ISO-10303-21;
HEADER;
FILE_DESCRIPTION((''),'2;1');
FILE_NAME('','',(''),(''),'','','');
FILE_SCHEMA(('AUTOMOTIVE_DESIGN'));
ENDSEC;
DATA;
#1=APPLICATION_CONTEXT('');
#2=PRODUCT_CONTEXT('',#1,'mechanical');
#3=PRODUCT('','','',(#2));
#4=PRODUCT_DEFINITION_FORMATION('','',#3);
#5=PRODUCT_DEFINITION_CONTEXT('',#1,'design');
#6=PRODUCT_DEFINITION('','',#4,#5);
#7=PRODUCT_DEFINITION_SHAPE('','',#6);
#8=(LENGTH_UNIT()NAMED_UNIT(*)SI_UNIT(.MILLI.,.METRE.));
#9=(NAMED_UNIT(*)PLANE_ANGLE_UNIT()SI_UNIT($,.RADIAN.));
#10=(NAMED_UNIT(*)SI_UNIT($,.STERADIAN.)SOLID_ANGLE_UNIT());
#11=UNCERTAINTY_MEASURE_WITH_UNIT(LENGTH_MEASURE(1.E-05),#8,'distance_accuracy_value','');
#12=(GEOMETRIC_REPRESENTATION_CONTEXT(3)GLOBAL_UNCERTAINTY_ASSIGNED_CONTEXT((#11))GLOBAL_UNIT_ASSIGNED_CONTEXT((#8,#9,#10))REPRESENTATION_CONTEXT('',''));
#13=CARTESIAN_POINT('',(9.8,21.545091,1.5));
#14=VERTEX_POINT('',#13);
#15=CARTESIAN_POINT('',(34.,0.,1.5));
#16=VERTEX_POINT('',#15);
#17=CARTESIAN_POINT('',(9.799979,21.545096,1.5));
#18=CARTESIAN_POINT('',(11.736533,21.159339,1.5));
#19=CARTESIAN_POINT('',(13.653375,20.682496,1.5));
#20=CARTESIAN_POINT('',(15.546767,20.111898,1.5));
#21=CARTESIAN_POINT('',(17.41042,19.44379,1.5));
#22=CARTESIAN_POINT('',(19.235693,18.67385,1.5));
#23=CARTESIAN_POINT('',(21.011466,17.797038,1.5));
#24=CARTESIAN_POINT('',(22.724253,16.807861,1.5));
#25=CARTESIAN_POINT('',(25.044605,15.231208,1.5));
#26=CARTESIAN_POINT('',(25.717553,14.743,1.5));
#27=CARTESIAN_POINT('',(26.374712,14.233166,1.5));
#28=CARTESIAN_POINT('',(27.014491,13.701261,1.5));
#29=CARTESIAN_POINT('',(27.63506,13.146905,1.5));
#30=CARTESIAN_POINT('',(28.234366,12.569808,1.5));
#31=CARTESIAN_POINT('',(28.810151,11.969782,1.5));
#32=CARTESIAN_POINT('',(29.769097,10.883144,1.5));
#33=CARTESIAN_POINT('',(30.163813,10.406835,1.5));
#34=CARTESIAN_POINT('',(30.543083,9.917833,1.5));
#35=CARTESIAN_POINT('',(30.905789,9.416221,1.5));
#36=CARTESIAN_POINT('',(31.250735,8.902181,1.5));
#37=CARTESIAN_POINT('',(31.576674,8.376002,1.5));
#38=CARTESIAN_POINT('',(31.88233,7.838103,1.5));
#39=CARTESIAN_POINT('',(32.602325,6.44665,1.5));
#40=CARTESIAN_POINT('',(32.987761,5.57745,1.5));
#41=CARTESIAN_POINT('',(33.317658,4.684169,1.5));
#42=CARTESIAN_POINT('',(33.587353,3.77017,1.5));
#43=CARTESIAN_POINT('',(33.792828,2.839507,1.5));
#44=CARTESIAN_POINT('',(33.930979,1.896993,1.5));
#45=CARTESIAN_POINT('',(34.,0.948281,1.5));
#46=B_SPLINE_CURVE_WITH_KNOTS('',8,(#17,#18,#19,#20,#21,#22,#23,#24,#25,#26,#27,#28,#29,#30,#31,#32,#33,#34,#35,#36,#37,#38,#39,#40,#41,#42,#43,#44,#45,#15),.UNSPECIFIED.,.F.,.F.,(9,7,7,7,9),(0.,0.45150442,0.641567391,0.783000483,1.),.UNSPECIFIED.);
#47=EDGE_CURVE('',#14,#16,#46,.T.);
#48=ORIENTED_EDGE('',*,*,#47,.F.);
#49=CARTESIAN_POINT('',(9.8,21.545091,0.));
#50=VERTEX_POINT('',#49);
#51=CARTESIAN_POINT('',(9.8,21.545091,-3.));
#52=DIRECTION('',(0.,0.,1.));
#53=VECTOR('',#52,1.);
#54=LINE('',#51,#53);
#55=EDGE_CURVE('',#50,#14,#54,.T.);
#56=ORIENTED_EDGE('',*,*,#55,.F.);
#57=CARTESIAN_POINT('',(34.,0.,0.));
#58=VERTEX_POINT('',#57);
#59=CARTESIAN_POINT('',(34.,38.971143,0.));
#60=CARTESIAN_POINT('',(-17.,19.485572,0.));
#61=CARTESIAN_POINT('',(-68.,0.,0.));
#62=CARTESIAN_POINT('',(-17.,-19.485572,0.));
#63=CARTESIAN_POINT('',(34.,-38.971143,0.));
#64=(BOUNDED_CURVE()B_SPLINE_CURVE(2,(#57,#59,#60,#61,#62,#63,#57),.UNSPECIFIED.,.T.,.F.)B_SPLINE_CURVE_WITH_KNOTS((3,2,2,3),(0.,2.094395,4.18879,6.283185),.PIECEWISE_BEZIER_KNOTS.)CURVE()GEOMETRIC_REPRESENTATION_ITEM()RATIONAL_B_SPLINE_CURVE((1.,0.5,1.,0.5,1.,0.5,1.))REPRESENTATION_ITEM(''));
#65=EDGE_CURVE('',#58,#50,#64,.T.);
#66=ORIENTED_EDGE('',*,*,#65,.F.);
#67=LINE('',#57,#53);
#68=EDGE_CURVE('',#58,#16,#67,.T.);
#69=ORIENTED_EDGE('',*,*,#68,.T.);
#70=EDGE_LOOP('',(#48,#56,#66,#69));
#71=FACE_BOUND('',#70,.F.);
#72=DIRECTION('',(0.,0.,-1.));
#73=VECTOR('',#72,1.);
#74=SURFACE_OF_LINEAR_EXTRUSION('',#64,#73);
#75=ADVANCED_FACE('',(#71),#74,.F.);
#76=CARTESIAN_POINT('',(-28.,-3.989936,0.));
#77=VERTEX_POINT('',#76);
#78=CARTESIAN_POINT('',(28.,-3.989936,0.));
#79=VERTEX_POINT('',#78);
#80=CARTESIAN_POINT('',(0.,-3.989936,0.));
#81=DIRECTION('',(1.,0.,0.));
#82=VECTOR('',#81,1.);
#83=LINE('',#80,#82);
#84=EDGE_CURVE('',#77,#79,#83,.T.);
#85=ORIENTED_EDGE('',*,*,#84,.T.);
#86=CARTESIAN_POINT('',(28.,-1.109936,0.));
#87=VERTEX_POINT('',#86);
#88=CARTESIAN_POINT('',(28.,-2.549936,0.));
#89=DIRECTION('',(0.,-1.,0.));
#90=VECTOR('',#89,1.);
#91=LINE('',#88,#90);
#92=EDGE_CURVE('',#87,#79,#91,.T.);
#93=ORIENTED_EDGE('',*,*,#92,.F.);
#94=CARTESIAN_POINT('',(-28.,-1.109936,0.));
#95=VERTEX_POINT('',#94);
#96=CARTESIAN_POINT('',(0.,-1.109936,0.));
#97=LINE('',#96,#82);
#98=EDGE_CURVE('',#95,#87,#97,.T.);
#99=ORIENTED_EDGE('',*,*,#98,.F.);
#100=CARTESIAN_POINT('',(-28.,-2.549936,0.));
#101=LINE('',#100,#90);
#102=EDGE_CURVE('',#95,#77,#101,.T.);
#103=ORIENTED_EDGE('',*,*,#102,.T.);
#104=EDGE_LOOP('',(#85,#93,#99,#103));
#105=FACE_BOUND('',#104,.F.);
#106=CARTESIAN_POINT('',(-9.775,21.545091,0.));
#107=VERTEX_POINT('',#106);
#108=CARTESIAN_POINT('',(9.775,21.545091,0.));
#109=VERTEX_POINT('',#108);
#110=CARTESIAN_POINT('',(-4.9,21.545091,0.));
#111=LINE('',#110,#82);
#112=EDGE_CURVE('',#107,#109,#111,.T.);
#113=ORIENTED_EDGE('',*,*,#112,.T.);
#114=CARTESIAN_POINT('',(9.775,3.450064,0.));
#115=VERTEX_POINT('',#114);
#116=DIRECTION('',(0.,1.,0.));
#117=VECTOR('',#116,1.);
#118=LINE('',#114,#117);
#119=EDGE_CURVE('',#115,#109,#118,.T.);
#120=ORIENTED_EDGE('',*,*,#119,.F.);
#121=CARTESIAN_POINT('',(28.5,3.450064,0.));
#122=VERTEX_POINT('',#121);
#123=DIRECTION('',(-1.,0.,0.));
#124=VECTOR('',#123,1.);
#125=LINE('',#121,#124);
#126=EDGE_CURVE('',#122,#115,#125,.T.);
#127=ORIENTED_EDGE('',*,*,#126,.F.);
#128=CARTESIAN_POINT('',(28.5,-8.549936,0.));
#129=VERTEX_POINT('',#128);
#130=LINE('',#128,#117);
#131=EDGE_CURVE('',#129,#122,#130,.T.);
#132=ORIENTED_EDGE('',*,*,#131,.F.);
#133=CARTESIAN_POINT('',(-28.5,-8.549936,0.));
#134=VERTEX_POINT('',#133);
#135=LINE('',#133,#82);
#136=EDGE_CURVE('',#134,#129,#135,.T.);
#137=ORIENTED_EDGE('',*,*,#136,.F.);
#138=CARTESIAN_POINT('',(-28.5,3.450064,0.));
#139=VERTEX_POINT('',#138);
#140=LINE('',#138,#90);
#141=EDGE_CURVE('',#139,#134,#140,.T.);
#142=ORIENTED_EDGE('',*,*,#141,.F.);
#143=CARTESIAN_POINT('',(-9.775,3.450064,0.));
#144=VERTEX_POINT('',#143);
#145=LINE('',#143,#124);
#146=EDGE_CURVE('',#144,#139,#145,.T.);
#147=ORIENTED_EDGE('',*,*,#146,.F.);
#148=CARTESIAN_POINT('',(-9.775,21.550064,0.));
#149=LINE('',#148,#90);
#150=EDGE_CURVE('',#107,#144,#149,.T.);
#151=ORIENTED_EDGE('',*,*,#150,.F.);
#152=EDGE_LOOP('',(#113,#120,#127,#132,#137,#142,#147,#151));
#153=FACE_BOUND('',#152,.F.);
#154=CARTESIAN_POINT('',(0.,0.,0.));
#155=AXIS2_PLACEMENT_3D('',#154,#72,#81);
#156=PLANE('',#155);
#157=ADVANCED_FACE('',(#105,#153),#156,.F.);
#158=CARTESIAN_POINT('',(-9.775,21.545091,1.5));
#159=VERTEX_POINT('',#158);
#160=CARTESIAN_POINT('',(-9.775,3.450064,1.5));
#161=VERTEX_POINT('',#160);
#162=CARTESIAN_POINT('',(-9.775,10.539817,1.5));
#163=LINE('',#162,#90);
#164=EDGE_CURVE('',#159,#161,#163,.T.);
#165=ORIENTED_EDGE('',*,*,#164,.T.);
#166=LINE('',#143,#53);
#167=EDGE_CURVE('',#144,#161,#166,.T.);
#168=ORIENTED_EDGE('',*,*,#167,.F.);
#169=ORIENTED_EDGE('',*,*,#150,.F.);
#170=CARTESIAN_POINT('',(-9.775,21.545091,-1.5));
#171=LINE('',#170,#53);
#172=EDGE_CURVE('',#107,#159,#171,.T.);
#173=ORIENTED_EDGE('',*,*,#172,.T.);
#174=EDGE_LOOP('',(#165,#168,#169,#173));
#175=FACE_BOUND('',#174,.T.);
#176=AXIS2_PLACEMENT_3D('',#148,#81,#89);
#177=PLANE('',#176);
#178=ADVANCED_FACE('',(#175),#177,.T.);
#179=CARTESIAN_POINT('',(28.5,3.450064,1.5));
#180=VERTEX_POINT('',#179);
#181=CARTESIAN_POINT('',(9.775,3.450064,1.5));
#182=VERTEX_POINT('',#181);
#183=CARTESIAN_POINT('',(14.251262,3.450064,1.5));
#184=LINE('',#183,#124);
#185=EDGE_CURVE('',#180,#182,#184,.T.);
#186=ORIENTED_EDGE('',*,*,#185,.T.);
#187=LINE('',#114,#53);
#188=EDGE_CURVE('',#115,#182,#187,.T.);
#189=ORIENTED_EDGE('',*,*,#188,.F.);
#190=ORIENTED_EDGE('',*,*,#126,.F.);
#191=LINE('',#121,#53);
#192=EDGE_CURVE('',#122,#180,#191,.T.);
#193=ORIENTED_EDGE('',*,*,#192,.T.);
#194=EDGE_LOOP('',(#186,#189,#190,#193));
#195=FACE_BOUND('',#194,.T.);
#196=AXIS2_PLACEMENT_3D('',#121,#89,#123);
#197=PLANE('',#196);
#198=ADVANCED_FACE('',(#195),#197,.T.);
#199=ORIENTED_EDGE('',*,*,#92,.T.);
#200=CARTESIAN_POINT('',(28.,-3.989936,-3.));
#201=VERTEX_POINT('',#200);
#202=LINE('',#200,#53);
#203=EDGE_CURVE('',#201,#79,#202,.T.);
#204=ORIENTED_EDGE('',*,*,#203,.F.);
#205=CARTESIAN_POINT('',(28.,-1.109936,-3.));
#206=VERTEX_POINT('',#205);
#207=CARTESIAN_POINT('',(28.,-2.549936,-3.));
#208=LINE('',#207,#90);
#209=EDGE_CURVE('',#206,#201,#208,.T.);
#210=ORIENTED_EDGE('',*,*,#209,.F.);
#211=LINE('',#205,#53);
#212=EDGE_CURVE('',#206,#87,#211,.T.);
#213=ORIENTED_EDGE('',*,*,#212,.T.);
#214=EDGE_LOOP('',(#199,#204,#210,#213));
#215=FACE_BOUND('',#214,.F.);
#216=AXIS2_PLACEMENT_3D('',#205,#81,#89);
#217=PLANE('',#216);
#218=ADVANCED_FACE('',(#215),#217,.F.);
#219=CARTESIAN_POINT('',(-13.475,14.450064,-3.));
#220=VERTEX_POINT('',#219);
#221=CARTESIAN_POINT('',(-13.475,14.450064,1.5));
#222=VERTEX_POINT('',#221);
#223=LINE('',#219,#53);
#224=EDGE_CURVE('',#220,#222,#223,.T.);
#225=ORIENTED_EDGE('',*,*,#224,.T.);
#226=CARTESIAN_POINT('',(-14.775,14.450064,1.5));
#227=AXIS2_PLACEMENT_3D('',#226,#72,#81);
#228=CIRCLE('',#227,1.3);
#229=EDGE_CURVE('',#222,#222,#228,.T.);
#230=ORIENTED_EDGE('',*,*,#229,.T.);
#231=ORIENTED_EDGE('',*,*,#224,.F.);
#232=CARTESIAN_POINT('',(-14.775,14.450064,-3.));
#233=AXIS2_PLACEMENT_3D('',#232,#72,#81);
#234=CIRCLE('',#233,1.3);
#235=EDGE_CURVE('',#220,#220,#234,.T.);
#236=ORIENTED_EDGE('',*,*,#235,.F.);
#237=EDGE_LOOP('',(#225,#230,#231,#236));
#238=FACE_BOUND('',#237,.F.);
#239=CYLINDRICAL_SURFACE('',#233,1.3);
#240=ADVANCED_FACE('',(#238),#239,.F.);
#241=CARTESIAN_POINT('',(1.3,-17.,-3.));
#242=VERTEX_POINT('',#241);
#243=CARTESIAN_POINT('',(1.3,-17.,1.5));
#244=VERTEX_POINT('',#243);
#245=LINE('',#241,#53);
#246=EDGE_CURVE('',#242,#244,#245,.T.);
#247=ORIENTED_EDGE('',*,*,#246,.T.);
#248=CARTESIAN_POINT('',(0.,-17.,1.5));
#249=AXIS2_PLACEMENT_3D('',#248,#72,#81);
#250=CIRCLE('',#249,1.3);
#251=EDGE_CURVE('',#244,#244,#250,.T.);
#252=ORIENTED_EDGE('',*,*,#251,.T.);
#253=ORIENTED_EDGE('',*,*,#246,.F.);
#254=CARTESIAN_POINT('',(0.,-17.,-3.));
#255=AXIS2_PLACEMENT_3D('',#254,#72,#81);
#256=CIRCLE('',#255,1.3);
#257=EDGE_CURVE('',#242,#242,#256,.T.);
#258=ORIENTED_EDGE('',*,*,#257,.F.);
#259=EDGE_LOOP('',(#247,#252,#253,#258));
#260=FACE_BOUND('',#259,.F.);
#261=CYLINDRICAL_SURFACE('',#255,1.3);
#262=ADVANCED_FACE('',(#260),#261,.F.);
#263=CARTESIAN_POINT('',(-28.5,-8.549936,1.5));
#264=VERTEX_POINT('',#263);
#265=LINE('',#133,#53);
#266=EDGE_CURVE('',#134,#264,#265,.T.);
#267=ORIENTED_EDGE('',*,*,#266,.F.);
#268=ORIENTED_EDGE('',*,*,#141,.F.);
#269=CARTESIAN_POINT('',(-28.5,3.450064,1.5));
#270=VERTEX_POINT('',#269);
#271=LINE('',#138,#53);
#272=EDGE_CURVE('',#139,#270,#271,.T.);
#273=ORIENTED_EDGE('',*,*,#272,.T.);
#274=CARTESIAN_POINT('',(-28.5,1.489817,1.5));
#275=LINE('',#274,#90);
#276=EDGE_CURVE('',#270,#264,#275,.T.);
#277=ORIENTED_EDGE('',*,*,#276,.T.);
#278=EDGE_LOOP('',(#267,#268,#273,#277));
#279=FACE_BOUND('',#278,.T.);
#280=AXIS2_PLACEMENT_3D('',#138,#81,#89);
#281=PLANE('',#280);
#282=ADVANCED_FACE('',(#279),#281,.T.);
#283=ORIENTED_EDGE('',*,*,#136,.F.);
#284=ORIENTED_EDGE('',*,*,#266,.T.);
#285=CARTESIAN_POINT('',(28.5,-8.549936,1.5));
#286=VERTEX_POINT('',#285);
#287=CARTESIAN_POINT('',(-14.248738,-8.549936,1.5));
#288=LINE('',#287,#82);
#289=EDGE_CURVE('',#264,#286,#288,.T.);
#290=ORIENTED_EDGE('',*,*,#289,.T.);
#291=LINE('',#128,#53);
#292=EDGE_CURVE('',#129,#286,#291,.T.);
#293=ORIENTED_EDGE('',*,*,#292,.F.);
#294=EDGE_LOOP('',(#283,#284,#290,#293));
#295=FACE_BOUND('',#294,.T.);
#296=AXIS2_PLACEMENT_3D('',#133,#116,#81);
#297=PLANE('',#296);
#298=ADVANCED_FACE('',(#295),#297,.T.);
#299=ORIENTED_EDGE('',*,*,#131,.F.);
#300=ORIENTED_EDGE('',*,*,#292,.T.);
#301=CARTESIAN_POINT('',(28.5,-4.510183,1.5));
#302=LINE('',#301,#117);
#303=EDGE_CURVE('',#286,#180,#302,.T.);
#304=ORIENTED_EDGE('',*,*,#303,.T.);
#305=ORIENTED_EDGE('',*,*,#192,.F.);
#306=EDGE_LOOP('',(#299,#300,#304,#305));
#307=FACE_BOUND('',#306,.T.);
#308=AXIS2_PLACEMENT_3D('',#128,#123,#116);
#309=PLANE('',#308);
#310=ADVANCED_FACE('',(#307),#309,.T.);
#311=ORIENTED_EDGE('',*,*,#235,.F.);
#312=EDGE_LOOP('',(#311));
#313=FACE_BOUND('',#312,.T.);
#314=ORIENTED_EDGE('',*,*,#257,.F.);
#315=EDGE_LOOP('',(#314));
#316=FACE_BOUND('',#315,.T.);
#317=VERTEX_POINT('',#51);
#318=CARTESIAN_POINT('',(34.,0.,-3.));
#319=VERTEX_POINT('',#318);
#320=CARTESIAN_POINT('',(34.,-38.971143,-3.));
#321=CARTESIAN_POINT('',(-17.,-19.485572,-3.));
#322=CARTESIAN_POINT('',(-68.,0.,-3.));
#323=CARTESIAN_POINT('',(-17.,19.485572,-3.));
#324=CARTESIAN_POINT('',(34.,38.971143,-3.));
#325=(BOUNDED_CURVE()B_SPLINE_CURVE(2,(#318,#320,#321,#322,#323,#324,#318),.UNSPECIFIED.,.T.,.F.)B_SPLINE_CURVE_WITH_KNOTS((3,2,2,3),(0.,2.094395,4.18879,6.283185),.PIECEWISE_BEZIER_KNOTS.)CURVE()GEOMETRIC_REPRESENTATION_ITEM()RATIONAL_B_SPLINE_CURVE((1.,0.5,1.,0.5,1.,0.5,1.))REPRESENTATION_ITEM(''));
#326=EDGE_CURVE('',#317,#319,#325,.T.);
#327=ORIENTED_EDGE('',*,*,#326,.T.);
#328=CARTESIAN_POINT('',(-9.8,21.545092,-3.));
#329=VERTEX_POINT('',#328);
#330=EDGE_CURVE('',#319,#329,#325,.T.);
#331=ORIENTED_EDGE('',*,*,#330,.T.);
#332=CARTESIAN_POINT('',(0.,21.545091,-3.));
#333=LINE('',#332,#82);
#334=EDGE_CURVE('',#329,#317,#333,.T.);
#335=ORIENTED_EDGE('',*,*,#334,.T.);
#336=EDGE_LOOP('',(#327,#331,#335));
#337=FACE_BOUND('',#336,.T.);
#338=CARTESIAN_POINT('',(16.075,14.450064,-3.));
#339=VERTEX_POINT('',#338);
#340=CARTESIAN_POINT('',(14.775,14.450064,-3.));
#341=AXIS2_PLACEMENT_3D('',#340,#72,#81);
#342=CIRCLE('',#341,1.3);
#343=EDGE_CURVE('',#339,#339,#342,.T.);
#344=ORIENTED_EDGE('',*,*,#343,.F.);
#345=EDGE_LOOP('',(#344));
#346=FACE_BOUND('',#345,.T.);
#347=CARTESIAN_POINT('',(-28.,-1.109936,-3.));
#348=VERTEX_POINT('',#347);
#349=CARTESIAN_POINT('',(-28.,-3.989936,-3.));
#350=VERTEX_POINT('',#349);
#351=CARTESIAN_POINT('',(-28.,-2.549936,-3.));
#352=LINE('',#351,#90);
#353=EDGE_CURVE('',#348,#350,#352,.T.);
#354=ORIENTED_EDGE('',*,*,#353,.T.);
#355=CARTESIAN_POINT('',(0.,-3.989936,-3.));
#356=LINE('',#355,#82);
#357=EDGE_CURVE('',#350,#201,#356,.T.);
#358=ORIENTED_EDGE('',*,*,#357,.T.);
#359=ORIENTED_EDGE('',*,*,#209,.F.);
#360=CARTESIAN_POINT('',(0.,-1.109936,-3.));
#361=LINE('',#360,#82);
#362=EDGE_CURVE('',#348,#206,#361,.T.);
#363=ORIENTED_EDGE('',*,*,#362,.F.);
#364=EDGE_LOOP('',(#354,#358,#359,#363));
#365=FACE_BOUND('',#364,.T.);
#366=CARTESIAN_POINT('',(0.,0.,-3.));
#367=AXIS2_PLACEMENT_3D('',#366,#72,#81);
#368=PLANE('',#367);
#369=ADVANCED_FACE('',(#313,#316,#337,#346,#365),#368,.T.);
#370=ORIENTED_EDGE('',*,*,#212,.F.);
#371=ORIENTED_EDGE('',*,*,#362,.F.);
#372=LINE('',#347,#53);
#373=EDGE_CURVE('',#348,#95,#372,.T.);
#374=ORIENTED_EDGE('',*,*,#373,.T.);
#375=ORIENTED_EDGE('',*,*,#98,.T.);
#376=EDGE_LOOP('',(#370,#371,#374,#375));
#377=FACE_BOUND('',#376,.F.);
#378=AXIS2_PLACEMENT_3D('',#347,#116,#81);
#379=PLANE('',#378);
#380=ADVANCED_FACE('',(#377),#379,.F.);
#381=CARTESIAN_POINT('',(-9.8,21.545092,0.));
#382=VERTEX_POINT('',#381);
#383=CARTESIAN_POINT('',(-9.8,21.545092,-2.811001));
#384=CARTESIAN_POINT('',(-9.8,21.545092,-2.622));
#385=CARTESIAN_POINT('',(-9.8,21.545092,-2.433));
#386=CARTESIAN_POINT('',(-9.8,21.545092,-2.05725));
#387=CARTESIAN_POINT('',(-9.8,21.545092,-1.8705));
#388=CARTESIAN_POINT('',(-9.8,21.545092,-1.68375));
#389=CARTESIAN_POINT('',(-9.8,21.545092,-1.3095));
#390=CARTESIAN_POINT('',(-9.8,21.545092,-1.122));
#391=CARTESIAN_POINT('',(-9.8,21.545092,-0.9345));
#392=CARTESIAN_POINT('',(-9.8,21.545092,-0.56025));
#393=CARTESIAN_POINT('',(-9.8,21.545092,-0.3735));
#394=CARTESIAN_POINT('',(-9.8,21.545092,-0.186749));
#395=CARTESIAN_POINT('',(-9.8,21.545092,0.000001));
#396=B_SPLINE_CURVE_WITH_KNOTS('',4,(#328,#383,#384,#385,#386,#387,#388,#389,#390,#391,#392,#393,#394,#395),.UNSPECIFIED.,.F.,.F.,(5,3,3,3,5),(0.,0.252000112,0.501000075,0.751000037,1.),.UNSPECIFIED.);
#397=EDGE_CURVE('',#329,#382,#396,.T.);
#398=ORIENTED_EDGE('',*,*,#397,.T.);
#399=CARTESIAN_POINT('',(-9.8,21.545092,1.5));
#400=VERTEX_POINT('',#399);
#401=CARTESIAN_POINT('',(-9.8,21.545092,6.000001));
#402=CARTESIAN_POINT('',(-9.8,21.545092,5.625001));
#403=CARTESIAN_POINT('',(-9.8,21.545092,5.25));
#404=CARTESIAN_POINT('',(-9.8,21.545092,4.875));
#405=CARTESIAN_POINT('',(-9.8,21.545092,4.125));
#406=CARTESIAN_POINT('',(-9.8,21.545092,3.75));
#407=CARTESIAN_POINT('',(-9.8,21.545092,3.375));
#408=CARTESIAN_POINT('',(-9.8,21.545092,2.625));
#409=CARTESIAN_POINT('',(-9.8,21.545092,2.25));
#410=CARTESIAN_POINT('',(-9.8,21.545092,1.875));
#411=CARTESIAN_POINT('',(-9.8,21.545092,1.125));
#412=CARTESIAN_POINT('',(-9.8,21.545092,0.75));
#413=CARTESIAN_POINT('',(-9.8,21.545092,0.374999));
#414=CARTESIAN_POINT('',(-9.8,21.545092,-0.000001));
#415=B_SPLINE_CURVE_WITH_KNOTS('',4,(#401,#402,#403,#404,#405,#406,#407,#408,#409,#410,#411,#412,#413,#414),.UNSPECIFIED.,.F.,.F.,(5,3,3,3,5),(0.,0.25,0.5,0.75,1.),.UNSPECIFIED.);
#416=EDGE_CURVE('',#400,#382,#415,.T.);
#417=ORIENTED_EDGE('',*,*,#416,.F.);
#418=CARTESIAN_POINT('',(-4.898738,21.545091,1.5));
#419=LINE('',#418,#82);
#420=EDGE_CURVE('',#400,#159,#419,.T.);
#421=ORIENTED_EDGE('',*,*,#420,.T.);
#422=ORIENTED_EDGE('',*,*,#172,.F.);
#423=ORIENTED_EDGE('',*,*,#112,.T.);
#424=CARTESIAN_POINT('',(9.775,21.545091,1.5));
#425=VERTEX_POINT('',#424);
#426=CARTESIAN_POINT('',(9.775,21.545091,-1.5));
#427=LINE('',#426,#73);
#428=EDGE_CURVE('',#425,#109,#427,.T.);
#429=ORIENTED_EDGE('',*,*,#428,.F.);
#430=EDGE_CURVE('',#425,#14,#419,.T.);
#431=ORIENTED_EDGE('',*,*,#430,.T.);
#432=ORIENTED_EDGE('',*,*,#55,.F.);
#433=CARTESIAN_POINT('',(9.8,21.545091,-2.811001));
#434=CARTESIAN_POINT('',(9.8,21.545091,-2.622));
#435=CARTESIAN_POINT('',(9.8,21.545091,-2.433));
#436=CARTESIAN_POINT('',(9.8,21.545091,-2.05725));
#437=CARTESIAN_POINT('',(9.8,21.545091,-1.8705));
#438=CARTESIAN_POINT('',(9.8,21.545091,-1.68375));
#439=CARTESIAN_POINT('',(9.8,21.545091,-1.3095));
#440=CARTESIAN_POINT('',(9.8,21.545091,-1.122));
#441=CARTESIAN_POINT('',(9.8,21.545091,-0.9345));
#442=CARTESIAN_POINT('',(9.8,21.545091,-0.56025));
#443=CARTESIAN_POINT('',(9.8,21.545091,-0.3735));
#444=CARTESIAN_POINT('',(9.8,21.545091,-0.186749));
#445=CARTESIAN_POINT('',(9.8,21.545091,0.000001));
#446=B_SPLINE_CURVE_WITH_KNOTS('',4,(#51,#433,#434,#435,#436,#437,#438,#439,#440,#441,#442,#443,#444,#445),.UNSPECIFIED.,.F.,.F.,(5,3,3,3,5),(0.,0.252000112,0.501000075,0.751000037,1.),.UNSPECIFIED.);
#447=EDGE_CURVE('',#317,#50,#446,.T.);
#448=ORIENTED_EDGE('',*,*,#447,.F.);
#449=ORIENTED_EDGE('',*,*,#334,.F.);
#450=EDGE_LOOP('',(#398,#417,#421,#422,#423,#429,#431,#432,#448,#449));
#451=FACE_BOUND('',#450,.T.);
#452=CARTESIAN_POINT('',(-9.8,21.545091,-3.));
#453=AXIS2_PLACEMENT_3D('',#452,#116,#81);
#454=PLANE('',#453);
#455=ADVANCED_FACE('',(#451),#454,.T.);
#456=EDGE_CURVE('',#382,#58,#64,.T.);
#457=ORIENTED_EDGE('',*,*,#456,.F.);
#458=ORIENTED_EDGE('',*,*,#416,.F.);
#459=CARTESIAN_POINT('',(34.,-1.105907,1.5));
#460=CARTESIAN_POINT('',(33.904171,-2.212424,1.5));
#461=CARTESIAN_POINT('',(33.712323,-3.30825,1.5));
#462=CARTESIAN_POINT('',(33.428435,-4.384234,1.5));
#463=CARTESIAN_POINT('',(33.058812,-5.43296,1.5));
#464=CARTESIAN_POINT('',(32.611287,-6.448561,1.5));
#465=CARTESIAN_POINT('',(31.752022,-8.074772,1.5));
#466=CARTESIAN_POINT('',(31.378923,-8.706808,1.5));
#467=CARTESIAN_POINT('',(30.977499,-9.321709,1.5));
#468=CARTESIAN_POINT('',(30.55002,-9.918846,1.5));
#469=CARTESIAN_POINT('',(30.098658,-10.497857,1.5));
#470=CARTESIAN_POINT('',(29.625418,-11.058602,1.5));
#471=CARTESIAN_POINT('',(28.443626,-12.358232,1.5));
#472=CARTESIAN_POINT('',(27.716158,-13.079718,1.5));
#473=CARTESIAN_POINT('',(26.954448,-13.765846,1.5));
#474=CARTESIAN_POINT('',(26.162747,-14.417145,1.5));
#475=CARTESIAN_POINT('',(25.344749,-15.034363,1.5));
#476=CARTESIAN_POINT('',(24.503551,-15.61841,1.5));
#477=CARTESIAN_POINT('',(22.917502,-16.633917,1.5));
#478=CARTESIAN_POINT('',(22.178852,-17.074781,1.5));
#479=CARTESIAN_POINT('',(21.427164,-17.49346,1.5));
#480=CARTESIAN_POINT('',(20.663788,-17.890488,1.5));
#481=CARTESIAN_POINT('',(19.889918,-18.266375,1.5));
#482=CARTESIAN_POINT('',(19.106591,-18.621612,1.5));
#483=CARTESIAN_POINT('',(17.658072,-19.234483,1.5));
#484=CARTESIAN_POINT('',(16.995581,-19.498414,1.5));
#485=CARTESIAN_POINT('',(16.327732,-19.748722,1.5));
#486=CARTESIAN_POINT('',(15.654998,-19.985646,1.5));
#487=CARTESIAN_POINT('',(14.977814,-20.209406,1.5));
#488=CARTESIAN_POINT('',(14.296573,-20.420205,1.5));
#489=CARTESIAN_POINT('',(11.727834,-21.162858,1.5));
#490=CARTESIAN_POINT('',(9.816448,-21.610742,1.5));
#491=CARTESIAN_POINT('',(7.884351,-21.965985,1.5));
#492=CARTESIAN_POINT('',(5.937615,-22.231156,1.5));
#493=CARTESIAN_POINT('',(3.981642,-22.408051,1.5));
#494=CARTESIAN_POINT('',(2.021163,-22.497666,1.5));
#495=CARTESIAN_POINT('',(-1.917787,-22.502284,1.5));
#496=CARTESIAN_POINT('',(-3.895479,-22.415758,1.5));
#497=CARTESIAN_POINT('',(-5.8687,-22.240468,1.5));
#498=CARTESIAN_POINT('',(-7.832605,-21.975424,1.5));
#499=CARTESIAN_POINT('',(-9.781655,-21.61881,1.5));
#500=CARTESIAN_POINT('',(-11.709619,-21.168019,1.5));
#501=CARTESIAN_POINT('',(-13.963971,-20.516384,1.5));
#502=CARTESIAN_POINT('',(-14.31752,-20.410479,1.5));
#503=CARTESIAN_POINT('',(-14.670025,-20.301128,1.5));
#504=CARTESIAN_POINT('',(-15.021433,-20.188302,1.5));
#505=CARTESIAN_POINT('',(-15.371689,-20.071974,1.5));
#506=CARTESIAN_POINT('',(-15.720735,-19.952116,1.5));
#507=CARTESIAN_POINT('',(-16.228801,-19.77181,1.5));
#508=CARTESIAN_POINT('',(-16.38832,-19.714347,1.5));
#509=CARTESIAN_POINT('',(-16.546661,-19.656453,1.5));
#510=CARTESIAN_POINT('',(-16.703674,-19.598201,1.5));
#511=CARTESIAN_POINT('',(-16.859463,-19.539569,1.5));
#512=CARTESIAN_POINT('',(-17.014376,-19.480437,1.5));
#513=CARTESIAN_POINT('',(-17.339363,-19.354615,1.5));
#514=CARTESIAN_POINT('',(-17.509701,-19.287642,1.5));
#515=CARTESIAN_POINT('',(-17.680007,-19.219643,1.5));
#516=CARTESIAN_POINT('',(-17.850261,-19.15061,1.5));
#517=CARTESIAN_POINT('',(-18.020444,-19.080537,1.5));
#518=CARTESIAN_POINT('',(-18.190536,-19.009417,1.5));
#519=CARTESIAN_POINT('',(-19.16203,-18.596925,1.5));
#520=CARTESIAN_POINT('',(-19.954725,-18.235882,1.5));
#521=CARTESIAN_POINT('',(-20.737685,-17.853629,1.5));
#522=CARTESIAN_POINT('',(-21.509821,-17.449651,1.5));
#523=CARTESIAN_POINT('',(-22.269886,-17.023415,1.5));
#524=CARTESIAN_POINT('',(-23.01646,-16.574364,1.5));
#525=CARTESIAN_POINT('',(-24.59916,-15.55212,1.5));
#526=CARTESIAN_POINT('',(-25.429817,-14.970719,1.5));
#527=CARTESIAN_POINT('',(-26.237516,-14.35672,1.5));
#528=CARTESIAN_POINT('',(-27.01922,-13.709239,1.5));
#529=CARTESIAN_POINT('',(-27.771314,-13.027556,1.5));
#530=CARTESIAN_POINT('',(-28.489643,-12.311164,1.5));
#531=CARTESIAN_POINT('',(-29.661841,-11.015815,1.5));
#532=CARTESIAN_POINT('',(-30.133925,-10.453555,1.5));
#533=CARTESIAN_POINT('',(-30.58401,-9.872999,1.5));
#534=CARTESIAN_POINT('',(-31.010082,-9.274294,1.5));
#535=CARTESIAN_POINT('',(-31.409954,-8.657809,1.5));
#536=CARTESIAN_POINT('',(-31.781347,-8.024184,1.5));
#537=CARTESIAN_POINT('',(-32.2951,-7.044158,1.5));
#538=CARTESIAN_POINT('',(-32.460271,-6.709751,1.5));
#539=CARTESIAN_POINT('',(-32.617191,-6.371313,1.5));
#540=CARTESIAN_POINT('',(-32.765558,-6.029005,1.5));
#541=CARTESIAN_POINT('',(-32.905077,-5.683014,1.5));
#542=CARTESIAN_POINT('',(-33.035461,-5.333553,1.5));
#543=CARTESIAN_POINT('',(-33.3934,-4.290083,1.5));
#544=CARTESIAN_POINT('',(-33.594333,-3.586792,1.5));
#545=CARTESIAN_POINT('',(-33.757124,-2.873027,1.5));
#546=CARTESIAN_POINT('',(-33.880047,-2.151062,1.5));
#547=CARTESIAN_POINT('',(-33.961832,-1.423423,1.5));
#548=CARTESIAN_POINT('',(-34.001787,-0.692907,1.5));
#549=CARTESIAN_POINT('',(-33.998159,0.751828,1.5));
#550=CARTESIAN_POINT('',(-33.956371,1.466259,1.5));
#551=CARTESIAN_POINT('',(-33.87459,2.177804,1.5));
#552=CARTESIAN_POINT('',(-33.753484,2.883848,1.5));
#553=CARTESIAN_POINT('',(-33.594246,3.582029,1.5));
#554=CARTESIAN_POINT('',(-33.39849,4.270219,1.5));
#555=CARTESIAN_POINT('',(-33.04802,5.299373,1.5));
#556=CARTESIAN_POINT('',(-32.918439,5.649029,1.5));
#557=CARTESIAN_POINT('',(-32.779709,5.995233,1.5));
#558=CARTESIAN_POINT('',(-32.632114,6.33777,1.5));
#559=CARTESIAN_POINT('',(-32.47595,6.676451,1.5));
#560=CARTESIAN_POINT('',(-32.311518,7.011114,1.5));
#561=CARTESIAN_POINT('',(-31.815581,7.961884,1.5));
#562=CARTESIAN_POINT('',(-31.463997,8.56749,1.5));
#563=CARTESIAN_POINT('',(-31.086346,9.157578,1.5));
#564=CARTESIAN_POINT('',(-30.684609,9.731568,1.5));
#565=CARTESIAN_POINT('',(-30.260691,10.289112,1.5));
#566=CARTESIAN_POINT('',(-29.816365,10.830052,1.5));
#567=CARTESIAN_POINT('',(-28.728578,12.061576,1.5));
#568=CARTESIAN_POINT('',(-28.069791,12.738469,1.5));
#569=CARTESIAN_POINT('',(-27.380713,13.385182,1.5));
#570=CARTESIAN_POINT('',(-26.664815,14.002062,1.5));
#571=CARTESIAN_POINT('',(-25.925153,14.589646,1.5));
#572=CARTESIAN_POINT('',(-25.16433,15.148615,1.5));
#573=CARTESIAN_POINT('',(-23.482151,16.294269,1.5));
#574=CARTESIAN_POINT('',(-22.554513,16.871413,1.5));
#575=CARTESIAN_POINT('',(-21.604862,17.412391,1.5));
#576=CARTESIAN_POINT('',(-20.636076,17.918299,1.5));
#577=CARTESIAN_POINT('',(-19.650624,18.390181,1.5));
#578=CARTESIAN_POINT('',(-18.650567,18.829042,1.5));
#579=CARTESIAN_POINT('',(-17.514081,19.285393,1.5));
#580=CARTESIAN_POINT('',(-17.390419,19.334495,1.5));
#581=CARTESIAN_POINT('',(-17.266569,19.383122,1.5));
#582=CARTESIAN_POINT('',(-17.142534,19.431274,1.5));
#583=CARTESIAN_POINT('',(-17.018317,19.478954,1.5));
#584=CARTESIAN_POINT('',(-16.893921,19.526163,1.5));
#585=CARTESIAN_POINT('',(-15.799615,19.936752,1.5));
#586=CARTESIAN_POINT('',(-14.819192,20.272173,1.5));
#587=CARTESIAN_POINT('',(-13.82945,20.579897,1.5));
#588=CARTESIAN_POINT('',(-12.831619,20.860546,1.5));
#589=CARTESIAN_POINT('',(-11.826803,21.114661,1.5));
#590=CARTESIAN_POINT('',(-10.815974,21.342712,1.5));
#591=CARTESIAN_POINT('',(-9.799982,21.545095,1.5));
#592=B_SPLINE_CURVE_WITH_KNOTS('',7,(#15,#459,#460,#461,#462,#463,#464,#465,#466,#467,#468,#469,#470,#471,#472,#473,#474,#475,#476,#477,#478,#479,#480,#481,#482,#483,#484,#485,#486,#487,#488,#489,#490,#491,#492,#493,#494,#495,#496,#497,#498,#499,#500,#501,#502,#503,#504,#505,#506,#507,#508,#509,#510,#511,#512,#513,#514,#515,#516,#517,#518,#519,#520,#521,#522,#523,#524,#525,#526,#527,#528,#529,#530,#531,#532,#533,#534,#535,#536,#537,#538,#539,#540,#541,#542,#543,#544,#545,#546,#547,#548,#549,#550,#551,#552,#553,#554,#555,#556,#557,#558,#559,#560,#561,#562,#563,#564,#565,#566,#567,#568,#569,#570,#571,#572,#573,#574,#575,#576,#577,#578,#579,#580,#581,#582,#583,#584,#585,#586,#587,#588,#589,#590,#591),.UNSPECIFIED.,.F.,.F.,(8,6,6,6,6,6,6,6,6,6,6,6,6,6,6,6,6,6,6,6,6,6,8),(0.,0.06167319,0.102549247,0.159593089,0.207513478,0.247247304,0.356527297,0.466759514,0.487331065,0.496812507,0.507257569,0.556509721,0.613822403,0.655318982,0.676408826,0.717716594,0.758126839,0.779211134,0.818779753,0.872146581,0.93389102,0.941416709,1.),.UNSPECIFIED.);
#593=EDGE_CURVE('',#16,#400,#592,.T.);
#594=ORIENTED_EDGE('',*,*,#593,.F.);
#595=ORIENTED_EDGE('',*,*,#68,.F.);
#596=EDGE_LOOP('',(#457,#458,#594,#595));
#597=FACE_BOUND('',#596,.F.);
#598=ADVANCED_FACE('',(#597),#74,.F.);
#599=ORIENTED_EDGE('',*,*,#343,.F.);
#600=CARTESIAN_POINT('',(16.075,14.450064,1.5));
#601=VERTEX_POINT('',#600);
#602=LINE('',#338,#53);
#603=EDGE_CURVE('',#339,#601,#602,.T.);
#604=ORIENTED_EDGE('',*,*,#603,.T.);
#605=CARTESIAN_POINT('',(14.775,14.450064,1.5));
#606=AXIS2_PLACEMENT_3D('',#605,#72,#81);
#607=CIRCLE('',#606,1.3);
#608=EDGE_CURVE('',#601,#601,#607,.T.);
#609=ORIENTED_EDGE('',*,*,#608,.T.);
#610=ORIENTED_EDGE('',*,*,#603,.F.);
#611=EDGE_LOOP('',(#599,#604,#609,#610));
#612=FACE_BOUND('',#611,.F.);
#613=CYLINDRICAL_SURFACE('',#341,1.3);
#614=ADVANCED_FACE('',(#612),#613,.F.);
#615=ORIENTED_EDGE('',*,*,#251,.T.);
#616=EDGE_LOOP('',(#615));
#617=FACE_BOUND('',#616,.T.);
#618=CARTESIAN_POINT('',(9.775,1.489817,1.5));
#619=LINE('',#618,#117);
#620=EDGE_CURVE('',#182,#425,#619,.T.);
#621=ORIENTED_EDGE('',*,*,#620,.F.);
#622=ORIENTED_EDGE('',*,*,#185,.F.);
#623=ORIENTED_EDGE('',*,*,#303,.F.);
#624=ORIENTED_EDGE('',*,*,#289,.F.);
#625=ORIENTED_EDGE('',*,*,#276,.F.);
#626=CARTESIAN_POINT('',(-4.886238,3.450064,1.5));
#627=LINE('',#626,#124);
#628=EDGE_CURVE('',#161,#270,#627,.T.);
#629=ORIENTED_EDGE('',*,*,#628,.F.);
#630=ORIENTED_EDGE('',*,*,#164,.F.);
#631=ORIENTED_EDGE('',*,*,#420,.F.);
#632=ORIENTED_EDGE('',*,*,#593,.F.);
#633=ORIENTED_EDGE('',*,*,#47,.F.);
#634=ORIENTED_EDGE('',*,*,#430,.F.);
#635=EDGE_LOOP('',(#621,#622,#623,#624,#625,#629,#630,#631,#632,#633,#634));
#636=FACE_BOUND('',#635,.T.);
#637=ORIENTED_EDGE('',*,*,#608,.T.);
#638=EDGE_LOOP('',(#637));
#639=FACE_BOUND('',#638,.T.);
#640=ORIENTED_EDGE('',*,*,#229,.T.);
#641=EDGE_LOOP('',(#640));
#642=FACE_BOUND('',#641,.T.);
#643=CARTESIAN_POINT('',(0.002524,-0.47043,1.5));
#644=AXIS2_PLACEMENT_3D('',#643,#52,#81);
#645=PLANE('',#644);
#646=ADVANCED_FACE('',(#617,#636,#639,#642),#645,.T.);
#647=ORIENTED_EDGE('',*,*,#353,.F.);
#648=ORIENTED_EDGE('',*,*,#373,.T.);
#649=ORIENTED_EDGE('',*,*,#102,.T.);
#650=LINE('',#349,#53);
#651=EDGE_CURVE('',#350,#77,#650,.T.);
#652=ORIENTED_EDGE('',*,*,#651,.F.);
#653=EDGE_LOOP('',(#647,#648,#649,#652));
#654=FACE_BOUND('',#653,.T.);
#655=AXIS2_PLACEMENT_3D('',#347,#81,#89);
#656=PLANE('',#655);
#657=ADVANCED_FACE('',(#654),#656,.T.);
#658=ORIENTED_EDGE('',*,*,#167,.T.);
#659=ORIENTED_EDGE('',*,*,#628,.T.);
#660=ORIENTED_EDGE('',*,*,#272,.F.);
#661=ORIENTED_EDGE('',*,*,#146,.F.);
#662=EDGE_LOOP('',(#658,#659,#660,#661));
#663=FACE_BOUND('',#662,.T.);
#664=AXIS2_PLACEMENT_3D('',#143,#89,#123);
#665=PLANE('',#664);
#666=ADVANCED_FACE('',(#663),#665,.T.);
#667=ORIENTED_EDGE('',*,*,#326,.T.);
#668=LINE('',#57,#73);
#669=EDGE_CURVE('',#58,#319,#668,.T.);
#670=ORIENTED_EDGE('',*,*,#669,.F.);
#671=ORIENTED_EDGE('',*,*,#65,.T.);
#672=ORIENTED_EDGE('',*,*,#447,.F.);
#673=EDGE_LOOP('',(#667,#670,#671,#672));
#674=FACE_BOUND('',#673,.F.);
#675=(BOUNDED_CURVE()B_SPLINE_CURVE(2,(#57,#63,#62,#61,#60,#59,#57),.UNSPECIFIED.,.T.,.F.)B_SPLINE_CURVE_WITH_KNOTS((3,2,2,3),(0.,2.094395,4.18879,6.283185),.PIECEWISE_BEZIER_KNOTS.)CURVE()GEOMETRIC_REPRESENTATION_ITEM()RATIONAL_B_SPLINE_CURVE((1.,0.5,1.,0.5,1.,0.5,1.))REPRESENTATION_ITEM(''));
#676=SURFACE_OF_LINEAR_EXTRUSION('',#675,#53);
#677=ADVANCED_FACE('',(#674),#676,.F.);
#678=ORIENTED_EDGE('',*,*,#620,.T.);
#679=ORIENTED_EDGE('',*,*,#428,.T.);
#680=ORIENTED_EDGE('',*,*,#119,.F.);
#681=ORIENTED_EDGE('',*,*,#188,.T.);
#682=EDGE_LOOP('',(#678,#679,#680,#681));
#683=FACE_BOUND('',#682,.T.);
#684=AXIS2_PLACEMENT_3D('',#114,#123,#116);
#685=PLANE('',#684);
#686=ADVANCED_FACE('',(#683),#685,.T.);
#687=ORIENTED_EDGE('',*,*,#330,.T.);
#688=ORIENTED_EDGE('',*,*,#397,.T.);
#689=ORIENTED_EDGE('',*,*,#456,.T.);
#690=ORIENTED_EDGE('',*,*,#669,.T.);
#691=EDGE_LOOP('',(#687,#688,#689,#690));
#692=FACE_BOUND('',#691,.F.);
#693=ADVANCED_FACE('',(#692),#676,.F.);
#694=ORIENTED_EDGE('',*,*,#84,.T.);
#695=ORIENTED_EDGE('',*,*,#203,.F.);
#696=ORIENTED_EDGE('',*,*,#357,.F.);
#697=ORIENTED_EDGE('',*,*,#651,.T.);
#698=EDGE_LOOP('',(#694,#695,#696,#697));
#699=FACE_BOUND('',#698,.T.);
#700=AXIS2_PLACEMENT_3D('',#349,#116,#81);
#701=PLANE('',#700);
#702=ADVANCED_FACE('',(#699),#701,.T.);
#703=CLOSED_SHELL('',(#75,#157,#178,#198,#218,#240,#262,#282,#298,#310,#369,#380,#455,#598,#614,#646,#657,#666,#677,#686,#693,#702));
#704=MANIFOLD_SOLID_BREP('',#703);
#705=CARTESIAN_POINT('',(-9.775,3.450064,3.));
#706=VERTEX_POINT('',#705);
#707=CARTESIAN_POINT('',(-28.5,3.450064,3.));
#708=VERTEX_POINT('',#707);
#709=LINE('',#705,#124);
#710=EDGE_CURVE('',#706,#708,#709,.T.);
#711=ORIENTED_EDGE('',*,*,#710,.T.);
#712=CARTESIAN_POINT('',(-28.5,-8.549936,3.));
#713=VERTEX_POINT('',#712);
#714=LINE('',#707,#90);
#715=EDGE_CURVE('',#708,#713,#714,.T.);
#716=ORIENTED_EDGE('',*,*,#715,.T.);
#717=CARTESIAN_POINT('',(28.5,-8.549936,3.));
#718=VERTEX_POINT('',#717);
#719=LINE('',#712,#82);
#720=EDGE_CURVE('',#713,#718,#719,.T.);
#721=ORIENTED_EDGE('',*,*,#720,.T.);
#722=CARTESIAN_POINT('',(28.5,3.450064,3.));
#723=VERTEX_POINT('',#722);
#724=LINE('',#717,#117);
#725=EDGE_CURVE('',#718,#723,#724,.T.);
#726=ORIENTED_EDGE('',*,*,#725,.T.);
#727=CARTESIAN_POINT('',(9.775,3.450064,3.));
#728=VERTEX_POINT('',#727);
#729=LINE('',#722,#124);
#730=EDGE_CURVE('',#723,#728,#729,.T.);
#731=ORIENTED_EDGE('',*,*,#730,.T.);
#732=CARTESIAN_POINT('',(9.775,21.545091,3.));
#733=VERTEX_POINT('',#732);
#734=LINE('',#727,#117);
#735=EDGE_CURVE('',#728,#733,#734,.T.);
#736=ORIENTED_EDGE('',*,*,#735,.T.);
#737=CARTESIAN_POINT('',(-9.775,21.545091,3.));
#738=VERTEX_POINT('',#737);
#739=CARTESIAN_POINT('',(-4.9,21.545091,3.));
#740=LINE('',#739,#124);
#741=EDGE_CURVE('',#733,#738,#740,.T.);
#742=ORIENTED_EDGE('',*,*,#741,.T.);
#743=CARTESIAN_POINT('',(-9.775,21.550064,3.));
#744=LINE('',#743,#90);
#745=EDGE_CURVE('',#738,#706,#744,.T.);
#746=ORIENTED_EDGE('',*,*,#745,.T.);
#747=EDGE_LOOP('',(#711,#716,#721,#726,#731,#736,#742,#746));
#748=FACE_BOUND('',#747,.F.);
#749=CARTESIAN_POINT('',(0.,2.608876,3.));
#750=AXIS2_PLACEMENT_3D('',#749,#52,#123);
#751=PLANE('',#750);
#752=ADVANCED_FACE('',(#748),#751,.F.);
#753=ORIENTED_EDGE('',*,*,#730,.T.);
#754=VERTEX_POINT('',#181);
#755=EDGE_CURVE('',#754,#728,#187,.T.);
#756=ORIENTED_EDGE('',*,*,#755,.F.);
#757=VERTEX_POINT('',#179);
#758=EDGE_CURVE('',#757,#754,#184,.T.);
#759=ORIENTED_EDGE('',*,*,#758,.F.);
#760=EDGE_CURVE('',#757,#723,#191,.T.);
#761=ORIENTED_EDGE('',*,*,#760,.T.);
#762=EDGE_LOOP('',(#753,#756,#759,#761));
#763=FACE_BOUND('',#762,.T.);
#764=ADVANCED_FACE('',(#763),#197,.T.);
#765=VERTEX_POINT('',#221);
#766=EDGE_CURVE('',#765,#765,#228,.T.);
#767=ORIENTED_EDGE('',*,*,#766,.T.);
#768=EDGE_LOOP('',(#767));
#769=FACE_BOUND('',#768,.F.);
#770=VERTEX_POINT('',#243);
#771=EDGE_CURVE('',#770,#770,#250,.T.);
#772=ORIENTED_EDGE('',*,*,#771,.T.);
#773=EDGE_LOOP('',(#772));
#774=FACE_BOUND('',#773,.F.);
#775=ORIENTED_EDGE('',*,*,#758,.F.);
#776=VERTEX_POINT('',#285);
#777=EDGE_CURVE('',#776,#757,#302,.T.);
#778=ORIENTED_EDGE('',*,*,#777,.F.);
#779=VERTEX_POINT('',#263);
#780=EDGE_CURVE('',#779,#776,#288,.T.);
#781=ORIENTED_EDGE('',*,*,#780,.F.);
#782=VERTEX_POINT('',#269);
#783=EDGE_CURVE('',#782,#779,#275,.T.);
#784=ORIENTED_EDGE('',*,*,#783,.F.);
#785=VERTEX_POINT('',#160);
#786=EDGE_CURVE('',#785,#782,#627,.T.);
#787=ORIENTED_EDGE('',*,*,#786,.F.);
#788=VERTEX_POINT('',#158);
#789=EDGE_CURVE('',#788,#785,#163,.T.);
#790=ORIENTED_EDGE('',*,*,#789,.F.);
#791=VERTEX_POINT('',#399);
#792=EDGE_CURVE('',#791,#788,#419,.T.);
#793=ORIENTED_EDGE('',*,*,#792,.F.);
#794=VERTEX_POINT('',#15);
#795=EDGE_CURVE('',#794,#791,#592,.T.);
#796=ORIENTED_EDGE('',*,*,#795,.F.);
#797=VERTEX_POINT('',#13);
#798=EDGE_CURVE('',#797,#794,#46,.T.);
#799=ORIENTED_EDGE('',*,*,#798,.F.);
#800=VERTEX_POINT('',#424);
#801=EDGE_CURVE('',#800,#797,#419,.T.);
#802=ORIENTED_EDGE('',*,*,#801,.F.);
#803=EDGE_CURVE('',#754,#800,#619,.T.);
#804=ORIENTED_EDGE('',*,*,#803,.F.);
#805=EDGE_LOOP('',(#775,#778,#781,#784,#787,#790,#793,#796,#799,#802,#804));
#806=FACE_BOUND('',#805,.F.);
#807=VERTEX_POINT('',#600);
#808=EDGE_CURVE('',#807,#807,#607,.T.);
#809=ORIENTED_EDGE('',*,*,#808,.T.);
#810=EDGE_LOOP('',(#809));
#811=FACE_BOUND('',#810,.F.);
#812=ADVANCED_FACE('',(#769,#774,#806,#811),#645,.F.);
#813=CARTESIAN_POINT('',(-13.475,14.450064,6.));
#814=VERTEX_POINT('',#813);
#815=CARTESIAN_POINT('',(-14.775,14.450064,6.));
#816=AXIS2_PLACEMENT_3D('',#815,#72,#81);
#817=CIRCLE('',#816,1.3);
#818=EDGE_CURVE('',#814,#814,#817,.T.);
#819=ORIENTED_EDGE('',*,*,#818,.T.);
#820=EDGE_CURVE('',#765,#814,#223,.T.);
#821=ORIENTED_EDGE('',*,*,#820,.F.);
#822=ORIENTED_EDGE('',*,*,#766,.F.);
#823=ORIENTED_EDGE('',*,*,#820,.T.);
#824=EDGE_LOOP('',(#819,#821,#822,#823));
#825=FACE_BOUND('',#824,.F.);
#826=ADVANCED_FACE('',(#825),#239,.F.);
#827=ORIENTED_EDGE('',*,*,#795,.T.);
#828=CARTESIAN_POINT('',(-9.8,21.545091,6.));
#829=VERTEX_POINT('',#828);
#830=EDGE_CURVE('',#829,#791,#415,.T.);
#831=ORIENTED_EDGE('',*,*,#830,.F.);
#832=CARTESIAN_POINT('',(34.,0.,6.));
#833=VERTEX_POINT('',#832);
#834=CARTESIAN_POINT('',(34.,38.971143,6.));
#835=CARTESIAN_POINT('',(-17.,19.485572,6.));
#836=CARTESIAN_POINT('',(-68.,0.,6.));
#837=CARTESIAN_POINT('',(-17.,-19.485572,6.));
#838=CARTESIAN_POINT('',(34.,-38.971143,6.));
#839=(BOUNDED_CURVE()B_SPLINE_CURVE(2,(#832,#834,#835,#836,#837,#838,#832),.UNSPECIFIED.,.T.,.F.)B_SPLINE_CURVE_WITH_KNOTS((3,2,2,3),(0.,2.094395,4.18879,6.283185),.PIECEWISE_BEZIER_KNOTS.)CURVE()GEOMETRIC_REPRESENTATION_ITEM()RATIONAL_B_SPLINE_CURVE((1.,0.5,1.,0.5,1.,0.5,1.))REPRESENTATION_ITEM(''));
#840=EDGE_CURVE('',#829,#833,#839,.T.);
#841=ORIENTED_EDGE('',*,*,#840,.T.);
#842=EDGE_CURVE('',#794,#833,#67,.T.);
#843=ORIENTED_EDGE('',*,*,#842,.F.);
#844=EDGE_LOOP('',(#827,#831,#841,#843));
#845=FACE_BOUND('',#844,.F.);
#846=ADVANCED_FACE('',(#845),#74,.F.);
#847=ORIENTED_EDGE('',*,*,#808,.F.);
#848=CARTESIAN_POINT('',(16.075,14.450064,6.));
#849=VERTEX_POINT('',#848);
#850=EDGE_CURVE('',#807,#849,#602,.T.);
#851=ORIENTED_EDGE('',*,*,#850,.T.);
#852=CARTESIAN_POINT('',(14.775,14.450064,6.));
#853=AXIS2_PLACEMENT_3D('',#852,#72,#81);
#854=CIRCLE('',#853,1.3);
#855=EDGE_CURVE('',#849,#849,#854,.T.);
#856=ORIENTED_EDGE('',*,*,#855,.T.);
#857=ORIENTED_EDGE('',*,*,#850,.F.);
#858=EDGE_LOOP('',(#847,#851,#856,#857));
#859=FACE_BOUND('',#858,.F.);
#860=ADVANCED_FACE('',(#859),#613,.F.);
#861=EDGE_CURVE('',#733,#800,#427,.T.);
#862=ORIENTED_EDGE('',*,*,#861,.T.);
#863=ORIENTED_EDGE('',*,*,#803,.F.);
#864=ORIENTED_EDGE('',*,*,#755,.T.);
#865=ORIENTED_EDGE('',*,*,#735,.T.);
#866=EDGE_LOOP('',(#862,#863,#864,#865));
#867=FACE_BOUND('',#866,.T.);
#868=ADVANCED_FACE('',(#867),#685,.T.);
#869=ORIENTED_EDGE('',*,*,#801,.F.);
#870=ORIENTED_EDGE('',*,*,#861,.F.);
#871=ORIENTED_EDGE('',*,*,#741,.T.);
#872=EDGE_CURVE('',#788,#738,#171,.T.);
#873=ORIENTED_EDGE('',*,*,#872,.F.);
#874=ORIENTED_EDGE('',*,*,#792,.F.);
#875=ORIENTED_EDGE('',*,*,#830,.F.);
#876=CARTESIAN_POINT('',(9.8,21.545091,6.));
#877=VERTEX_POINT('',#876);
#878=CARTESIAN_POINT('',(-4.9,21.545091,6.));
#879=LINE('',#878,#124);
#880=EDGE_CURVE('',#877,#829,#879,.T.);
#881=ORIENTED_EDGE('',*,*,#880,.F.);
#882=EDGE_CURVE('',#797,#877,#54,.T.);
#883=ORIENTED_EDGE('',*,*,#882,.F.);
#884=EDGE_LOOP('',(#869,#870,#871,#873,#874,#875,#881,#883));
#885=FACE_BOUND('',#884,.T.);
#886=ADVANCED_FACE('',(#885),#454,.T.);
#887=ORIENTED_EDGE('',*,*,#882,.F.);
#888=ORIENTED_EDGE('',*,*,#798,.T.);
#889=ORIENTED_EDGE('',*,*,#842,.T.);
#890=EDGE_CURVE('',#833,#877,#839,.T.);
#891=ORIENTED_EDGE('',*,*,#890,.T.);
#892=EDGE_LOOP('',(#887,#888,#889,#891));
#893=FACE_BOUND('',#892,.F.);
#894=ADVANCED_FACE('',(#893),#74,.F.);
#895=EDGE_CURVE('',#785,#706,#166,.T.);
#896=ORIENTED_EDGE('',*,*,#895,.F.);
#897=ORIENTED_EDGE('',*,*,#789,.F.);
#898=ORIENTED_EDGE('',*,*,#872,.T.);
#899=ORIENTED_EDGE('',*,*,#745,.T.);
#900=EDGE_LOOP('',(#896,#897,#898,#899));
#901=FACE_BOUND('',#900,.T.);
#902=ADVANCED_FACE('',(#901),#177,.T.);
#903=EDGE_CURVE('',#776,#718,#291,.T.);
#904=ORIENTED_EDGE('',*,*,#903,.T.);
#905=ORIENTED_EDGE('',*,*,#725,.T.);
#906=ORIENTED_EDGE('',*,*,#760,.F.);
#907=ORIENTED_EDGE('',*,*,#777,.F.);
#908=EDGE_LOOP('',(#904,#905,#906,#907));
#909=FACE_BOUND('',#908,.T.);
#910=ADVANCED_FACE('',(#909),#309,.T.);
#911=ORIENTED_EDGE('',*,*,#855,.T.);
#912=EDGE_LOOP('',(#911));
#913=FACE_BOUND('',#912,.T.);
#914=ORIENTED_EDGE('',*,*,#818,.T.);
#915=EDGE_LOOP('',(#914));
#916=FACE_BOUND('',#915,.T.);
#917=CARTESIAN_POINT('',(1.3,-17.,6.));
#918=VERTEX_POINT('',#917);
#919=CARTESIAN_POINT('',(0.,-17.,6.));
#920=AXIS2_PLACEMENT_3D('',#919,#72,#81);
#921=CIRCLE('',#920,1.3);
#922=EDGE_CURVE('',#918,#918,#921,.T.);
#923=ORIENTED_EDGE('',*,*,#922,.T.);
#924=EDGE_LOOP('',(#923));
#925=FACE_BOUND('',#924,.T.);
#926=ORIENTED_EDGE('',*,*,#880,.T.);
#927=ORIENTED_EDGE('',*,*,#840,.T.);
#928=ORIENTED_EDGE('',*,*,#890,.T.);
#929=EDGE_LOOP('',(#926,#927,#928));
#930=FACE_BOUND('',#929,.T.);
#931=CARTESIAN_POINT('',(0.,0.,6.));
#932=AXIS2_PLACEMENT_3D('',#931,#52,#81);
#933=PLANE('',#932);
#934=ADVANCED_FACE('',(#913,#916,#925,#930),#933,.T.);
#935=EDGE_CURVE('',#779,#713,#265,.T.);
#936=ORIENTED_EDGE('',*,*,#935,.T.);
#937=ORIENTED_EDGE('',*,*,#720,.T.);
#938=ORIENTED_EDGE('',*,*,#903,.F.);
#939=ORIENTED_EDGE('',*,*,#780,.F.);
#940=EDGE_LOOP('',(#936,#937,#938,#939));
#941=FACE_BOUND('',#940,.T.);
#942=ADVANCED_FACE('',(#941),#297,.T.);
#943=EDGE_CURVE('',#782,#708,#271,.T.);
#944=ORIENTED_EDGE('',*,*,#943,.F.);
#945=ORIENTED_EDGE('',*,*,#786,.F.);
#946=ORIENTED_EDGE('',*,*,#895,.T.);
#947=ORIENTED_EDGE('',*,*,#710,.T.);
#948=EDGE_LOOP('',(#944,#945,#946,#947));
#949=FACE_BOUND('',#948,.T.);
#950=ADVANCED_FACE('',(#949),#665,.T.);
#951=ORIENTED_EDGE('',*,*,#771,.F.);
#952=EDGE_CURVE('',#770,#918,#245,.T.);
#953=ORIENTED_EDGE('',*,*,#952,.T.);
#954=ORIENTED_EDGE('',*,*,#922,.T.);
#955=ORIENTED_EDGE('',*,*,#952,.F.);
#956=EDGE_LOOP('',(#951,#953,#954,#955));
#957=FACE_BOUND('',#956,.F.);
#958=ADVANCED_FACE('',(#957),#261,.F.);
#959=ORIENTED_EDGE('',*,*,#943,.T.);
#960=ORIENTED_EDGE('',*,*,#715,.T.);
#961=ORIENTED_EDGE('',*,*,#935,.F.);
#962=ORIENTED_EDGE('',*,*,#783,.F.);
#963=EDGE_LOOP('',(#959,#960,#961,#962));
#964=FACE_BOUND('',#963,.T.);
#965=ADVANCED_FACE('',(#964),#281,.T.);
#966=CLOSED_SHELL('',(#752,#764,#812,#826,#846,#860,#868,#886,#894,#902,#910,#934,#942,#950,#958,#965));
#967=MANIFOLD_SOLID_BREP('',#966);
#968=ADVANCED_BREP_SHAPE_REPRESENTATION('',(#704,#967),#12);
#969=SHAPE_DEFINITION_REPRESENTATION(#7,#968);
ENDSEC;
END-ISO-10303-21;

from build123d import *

# Parameters (mm, degrees)
BOX_BOTTOM_HALF_0_W     = 69.994952
BOX_BOTTOM_HALF_0_H     = 46.031044
BOX_BOTTOM_HALF_0_DEPTH = 5.5
PAD_DEPTH               = 6
POCKET_DEPTH            = 3
PAD001_DEPTH            = 3
SKETCH003_W             = 56
SKETCH003_H             = 2.88
POCKET001_DEPTH         = 3
SKETCH004_W             = 19.6
SKETCH004_H             = 1
POCKET002_DEPTH         = 9.001
SKETCH005_R             = 1.3
POCKET003_DEPTH         = 9.001


with BuildPart() as box_bottom_half_0_body:
    # box_bottom_half_0 → box_bottom_half_0 (new body)
    with BuildSketch(Plane(origin=(-34.994952, -23.485952, -4), x_dir=(1, 0, 0), z_dir=(0, 0, 1))):
        with Locations((34.997476, 23.015522)):
            Rectangle(BOX_BOTTOM_HALF_0_W, BOX_BOTTOM_HALF_0_H)
    extrude(amount=BOX_BOTTOM_HALF_0_DEPTH)


with BuildPart() as body:
    # Sketch → Pad (new body)
    with BuildSketch(Plane.XY):
        with BuildLine():
            add(Edge.make_bspline(
                [(34, 0), (34, 38.971143), (-17, 19.485572), (-68, 0), (-17, -19.485572), (34, -38.971143), (34, 0)],
                knots=[0, 0, 0, 2.094395, 2.094395, 4.18879, 4.18879, 6.283185, 6.283185, 6.283185], degree=2, weights=[1, 0.5, 1, 0.5, 1, 0.5, 1]))
        make_face()
    extrude(amount=PAD_DEPTH)

    # Sketch001 (on Face2 of Pad) → Pocket (cut)
    with BuildSketch(Plane(origin=(0, 0, 0), x_dir=(1, 0, 0), z_dir=(0, 0, -1))):
        Polygon((9.775, -3.450064), (9.775, -21.550064), (-9.775, -21.550064), (-9.775, -3.450064), (-28.5, -3.450064), (-28.5, 8.549936), (28.5, 8.549936), (28.5, -3.450064), align=None)
    extrude(amount=-POCKET_DEPTH, mode=Mode.SUBTRACT)

    # Sketch002 (on Face2 of Pocket) → Pad001 (join)
    with BuildSketch(Plane(origin=(0, 0, 0), x_dir=(1, 0, 0), z_dir=(0, 0, -1))):
        with BuildLine():
            add(Edge.make_bspline(
                [(34, 0), (34, 38.971143), (-17, 19.485572), (-68, 0), (-17, -19.485572), (34, -38.971143), (34, 0)],
                knots=[0, 0, 0, 2.094395, 2.094395, 4.18879, 4.18879, 6.283185, 6.283185, 6.283185], degree=2, weights=[1, 0.5, 1, 0.5, 1, 0.5, 1]))
        make_face()
    extrude(amount=PAD001_DEPTH)

    # Sketch003 (on Face4 of Pad001) → Pocket001 (cut)
    with BuildSketch(Plane(origin=(0, 0, -3), x_dir=(1, 0, 0), z_dir=(0, 0, -1))):
        with Locations((0, 2.549936)):
            Rectangle(SKETCH003_W, SKETCH003_H)
    extrude(amount=-POCKET001_DEPTH, mode=Mode.SUBTRACT)

    # Sketch004 (on Face4 of Pocket001) → Pocket002 (cut, through all)
    with BuildSketch(Plane(origin=(0, 0, -3), x_dir=(1, 0, 0), z_dir=(0, 0, -1))):
        with Locations((0, -22.045091)):
            Rectangle(SKETCH004_W, SKETCH004_H)
    extrude(amount=-POCKET002_DEPTH, mode=Mode.SUBTRACT)

    # Sketch005 (on Face7 of Pocket002) → Pocket003 (cut, through all)
    with BuildSketch(Plane(origin=(0, 0, -3), x_dir=(1, 0, 0), z_dir=(0, 0, -1))):
        with Locations((-14.775, -14.450064)):
            Circle(SKETCH005_R)
        with Locations((0, 17)):
            Circle(SKETCH005_R)
        with Locations((14.775, -14.450064)):
            Circle(SKETCH005_R)
    extrude(amount=-POCKET003_DEPTH, mode=Mode.SUBTRACT)


with BuildPart() as bottom_half_0_body:
    # bottom_half_0 base: copy of Body
    add(body.part)

    # bottom_half_0: intersect box_bottom_half_0 body
    add(box_bottom_half_0_body.part, mode=Mode.INTERSECT)


with BuildPart() as top_half_0_body:
    # top_half_0 base: copy of Body
    add(body.part)

    # top_half_0: cut box_bottom_half_0 body
    add(box_bottom_half_0_body.part, mode=Mode.SUBTRACT)


solid = Compound([bottom_half_0_body.part, top_half_0_body.part])
